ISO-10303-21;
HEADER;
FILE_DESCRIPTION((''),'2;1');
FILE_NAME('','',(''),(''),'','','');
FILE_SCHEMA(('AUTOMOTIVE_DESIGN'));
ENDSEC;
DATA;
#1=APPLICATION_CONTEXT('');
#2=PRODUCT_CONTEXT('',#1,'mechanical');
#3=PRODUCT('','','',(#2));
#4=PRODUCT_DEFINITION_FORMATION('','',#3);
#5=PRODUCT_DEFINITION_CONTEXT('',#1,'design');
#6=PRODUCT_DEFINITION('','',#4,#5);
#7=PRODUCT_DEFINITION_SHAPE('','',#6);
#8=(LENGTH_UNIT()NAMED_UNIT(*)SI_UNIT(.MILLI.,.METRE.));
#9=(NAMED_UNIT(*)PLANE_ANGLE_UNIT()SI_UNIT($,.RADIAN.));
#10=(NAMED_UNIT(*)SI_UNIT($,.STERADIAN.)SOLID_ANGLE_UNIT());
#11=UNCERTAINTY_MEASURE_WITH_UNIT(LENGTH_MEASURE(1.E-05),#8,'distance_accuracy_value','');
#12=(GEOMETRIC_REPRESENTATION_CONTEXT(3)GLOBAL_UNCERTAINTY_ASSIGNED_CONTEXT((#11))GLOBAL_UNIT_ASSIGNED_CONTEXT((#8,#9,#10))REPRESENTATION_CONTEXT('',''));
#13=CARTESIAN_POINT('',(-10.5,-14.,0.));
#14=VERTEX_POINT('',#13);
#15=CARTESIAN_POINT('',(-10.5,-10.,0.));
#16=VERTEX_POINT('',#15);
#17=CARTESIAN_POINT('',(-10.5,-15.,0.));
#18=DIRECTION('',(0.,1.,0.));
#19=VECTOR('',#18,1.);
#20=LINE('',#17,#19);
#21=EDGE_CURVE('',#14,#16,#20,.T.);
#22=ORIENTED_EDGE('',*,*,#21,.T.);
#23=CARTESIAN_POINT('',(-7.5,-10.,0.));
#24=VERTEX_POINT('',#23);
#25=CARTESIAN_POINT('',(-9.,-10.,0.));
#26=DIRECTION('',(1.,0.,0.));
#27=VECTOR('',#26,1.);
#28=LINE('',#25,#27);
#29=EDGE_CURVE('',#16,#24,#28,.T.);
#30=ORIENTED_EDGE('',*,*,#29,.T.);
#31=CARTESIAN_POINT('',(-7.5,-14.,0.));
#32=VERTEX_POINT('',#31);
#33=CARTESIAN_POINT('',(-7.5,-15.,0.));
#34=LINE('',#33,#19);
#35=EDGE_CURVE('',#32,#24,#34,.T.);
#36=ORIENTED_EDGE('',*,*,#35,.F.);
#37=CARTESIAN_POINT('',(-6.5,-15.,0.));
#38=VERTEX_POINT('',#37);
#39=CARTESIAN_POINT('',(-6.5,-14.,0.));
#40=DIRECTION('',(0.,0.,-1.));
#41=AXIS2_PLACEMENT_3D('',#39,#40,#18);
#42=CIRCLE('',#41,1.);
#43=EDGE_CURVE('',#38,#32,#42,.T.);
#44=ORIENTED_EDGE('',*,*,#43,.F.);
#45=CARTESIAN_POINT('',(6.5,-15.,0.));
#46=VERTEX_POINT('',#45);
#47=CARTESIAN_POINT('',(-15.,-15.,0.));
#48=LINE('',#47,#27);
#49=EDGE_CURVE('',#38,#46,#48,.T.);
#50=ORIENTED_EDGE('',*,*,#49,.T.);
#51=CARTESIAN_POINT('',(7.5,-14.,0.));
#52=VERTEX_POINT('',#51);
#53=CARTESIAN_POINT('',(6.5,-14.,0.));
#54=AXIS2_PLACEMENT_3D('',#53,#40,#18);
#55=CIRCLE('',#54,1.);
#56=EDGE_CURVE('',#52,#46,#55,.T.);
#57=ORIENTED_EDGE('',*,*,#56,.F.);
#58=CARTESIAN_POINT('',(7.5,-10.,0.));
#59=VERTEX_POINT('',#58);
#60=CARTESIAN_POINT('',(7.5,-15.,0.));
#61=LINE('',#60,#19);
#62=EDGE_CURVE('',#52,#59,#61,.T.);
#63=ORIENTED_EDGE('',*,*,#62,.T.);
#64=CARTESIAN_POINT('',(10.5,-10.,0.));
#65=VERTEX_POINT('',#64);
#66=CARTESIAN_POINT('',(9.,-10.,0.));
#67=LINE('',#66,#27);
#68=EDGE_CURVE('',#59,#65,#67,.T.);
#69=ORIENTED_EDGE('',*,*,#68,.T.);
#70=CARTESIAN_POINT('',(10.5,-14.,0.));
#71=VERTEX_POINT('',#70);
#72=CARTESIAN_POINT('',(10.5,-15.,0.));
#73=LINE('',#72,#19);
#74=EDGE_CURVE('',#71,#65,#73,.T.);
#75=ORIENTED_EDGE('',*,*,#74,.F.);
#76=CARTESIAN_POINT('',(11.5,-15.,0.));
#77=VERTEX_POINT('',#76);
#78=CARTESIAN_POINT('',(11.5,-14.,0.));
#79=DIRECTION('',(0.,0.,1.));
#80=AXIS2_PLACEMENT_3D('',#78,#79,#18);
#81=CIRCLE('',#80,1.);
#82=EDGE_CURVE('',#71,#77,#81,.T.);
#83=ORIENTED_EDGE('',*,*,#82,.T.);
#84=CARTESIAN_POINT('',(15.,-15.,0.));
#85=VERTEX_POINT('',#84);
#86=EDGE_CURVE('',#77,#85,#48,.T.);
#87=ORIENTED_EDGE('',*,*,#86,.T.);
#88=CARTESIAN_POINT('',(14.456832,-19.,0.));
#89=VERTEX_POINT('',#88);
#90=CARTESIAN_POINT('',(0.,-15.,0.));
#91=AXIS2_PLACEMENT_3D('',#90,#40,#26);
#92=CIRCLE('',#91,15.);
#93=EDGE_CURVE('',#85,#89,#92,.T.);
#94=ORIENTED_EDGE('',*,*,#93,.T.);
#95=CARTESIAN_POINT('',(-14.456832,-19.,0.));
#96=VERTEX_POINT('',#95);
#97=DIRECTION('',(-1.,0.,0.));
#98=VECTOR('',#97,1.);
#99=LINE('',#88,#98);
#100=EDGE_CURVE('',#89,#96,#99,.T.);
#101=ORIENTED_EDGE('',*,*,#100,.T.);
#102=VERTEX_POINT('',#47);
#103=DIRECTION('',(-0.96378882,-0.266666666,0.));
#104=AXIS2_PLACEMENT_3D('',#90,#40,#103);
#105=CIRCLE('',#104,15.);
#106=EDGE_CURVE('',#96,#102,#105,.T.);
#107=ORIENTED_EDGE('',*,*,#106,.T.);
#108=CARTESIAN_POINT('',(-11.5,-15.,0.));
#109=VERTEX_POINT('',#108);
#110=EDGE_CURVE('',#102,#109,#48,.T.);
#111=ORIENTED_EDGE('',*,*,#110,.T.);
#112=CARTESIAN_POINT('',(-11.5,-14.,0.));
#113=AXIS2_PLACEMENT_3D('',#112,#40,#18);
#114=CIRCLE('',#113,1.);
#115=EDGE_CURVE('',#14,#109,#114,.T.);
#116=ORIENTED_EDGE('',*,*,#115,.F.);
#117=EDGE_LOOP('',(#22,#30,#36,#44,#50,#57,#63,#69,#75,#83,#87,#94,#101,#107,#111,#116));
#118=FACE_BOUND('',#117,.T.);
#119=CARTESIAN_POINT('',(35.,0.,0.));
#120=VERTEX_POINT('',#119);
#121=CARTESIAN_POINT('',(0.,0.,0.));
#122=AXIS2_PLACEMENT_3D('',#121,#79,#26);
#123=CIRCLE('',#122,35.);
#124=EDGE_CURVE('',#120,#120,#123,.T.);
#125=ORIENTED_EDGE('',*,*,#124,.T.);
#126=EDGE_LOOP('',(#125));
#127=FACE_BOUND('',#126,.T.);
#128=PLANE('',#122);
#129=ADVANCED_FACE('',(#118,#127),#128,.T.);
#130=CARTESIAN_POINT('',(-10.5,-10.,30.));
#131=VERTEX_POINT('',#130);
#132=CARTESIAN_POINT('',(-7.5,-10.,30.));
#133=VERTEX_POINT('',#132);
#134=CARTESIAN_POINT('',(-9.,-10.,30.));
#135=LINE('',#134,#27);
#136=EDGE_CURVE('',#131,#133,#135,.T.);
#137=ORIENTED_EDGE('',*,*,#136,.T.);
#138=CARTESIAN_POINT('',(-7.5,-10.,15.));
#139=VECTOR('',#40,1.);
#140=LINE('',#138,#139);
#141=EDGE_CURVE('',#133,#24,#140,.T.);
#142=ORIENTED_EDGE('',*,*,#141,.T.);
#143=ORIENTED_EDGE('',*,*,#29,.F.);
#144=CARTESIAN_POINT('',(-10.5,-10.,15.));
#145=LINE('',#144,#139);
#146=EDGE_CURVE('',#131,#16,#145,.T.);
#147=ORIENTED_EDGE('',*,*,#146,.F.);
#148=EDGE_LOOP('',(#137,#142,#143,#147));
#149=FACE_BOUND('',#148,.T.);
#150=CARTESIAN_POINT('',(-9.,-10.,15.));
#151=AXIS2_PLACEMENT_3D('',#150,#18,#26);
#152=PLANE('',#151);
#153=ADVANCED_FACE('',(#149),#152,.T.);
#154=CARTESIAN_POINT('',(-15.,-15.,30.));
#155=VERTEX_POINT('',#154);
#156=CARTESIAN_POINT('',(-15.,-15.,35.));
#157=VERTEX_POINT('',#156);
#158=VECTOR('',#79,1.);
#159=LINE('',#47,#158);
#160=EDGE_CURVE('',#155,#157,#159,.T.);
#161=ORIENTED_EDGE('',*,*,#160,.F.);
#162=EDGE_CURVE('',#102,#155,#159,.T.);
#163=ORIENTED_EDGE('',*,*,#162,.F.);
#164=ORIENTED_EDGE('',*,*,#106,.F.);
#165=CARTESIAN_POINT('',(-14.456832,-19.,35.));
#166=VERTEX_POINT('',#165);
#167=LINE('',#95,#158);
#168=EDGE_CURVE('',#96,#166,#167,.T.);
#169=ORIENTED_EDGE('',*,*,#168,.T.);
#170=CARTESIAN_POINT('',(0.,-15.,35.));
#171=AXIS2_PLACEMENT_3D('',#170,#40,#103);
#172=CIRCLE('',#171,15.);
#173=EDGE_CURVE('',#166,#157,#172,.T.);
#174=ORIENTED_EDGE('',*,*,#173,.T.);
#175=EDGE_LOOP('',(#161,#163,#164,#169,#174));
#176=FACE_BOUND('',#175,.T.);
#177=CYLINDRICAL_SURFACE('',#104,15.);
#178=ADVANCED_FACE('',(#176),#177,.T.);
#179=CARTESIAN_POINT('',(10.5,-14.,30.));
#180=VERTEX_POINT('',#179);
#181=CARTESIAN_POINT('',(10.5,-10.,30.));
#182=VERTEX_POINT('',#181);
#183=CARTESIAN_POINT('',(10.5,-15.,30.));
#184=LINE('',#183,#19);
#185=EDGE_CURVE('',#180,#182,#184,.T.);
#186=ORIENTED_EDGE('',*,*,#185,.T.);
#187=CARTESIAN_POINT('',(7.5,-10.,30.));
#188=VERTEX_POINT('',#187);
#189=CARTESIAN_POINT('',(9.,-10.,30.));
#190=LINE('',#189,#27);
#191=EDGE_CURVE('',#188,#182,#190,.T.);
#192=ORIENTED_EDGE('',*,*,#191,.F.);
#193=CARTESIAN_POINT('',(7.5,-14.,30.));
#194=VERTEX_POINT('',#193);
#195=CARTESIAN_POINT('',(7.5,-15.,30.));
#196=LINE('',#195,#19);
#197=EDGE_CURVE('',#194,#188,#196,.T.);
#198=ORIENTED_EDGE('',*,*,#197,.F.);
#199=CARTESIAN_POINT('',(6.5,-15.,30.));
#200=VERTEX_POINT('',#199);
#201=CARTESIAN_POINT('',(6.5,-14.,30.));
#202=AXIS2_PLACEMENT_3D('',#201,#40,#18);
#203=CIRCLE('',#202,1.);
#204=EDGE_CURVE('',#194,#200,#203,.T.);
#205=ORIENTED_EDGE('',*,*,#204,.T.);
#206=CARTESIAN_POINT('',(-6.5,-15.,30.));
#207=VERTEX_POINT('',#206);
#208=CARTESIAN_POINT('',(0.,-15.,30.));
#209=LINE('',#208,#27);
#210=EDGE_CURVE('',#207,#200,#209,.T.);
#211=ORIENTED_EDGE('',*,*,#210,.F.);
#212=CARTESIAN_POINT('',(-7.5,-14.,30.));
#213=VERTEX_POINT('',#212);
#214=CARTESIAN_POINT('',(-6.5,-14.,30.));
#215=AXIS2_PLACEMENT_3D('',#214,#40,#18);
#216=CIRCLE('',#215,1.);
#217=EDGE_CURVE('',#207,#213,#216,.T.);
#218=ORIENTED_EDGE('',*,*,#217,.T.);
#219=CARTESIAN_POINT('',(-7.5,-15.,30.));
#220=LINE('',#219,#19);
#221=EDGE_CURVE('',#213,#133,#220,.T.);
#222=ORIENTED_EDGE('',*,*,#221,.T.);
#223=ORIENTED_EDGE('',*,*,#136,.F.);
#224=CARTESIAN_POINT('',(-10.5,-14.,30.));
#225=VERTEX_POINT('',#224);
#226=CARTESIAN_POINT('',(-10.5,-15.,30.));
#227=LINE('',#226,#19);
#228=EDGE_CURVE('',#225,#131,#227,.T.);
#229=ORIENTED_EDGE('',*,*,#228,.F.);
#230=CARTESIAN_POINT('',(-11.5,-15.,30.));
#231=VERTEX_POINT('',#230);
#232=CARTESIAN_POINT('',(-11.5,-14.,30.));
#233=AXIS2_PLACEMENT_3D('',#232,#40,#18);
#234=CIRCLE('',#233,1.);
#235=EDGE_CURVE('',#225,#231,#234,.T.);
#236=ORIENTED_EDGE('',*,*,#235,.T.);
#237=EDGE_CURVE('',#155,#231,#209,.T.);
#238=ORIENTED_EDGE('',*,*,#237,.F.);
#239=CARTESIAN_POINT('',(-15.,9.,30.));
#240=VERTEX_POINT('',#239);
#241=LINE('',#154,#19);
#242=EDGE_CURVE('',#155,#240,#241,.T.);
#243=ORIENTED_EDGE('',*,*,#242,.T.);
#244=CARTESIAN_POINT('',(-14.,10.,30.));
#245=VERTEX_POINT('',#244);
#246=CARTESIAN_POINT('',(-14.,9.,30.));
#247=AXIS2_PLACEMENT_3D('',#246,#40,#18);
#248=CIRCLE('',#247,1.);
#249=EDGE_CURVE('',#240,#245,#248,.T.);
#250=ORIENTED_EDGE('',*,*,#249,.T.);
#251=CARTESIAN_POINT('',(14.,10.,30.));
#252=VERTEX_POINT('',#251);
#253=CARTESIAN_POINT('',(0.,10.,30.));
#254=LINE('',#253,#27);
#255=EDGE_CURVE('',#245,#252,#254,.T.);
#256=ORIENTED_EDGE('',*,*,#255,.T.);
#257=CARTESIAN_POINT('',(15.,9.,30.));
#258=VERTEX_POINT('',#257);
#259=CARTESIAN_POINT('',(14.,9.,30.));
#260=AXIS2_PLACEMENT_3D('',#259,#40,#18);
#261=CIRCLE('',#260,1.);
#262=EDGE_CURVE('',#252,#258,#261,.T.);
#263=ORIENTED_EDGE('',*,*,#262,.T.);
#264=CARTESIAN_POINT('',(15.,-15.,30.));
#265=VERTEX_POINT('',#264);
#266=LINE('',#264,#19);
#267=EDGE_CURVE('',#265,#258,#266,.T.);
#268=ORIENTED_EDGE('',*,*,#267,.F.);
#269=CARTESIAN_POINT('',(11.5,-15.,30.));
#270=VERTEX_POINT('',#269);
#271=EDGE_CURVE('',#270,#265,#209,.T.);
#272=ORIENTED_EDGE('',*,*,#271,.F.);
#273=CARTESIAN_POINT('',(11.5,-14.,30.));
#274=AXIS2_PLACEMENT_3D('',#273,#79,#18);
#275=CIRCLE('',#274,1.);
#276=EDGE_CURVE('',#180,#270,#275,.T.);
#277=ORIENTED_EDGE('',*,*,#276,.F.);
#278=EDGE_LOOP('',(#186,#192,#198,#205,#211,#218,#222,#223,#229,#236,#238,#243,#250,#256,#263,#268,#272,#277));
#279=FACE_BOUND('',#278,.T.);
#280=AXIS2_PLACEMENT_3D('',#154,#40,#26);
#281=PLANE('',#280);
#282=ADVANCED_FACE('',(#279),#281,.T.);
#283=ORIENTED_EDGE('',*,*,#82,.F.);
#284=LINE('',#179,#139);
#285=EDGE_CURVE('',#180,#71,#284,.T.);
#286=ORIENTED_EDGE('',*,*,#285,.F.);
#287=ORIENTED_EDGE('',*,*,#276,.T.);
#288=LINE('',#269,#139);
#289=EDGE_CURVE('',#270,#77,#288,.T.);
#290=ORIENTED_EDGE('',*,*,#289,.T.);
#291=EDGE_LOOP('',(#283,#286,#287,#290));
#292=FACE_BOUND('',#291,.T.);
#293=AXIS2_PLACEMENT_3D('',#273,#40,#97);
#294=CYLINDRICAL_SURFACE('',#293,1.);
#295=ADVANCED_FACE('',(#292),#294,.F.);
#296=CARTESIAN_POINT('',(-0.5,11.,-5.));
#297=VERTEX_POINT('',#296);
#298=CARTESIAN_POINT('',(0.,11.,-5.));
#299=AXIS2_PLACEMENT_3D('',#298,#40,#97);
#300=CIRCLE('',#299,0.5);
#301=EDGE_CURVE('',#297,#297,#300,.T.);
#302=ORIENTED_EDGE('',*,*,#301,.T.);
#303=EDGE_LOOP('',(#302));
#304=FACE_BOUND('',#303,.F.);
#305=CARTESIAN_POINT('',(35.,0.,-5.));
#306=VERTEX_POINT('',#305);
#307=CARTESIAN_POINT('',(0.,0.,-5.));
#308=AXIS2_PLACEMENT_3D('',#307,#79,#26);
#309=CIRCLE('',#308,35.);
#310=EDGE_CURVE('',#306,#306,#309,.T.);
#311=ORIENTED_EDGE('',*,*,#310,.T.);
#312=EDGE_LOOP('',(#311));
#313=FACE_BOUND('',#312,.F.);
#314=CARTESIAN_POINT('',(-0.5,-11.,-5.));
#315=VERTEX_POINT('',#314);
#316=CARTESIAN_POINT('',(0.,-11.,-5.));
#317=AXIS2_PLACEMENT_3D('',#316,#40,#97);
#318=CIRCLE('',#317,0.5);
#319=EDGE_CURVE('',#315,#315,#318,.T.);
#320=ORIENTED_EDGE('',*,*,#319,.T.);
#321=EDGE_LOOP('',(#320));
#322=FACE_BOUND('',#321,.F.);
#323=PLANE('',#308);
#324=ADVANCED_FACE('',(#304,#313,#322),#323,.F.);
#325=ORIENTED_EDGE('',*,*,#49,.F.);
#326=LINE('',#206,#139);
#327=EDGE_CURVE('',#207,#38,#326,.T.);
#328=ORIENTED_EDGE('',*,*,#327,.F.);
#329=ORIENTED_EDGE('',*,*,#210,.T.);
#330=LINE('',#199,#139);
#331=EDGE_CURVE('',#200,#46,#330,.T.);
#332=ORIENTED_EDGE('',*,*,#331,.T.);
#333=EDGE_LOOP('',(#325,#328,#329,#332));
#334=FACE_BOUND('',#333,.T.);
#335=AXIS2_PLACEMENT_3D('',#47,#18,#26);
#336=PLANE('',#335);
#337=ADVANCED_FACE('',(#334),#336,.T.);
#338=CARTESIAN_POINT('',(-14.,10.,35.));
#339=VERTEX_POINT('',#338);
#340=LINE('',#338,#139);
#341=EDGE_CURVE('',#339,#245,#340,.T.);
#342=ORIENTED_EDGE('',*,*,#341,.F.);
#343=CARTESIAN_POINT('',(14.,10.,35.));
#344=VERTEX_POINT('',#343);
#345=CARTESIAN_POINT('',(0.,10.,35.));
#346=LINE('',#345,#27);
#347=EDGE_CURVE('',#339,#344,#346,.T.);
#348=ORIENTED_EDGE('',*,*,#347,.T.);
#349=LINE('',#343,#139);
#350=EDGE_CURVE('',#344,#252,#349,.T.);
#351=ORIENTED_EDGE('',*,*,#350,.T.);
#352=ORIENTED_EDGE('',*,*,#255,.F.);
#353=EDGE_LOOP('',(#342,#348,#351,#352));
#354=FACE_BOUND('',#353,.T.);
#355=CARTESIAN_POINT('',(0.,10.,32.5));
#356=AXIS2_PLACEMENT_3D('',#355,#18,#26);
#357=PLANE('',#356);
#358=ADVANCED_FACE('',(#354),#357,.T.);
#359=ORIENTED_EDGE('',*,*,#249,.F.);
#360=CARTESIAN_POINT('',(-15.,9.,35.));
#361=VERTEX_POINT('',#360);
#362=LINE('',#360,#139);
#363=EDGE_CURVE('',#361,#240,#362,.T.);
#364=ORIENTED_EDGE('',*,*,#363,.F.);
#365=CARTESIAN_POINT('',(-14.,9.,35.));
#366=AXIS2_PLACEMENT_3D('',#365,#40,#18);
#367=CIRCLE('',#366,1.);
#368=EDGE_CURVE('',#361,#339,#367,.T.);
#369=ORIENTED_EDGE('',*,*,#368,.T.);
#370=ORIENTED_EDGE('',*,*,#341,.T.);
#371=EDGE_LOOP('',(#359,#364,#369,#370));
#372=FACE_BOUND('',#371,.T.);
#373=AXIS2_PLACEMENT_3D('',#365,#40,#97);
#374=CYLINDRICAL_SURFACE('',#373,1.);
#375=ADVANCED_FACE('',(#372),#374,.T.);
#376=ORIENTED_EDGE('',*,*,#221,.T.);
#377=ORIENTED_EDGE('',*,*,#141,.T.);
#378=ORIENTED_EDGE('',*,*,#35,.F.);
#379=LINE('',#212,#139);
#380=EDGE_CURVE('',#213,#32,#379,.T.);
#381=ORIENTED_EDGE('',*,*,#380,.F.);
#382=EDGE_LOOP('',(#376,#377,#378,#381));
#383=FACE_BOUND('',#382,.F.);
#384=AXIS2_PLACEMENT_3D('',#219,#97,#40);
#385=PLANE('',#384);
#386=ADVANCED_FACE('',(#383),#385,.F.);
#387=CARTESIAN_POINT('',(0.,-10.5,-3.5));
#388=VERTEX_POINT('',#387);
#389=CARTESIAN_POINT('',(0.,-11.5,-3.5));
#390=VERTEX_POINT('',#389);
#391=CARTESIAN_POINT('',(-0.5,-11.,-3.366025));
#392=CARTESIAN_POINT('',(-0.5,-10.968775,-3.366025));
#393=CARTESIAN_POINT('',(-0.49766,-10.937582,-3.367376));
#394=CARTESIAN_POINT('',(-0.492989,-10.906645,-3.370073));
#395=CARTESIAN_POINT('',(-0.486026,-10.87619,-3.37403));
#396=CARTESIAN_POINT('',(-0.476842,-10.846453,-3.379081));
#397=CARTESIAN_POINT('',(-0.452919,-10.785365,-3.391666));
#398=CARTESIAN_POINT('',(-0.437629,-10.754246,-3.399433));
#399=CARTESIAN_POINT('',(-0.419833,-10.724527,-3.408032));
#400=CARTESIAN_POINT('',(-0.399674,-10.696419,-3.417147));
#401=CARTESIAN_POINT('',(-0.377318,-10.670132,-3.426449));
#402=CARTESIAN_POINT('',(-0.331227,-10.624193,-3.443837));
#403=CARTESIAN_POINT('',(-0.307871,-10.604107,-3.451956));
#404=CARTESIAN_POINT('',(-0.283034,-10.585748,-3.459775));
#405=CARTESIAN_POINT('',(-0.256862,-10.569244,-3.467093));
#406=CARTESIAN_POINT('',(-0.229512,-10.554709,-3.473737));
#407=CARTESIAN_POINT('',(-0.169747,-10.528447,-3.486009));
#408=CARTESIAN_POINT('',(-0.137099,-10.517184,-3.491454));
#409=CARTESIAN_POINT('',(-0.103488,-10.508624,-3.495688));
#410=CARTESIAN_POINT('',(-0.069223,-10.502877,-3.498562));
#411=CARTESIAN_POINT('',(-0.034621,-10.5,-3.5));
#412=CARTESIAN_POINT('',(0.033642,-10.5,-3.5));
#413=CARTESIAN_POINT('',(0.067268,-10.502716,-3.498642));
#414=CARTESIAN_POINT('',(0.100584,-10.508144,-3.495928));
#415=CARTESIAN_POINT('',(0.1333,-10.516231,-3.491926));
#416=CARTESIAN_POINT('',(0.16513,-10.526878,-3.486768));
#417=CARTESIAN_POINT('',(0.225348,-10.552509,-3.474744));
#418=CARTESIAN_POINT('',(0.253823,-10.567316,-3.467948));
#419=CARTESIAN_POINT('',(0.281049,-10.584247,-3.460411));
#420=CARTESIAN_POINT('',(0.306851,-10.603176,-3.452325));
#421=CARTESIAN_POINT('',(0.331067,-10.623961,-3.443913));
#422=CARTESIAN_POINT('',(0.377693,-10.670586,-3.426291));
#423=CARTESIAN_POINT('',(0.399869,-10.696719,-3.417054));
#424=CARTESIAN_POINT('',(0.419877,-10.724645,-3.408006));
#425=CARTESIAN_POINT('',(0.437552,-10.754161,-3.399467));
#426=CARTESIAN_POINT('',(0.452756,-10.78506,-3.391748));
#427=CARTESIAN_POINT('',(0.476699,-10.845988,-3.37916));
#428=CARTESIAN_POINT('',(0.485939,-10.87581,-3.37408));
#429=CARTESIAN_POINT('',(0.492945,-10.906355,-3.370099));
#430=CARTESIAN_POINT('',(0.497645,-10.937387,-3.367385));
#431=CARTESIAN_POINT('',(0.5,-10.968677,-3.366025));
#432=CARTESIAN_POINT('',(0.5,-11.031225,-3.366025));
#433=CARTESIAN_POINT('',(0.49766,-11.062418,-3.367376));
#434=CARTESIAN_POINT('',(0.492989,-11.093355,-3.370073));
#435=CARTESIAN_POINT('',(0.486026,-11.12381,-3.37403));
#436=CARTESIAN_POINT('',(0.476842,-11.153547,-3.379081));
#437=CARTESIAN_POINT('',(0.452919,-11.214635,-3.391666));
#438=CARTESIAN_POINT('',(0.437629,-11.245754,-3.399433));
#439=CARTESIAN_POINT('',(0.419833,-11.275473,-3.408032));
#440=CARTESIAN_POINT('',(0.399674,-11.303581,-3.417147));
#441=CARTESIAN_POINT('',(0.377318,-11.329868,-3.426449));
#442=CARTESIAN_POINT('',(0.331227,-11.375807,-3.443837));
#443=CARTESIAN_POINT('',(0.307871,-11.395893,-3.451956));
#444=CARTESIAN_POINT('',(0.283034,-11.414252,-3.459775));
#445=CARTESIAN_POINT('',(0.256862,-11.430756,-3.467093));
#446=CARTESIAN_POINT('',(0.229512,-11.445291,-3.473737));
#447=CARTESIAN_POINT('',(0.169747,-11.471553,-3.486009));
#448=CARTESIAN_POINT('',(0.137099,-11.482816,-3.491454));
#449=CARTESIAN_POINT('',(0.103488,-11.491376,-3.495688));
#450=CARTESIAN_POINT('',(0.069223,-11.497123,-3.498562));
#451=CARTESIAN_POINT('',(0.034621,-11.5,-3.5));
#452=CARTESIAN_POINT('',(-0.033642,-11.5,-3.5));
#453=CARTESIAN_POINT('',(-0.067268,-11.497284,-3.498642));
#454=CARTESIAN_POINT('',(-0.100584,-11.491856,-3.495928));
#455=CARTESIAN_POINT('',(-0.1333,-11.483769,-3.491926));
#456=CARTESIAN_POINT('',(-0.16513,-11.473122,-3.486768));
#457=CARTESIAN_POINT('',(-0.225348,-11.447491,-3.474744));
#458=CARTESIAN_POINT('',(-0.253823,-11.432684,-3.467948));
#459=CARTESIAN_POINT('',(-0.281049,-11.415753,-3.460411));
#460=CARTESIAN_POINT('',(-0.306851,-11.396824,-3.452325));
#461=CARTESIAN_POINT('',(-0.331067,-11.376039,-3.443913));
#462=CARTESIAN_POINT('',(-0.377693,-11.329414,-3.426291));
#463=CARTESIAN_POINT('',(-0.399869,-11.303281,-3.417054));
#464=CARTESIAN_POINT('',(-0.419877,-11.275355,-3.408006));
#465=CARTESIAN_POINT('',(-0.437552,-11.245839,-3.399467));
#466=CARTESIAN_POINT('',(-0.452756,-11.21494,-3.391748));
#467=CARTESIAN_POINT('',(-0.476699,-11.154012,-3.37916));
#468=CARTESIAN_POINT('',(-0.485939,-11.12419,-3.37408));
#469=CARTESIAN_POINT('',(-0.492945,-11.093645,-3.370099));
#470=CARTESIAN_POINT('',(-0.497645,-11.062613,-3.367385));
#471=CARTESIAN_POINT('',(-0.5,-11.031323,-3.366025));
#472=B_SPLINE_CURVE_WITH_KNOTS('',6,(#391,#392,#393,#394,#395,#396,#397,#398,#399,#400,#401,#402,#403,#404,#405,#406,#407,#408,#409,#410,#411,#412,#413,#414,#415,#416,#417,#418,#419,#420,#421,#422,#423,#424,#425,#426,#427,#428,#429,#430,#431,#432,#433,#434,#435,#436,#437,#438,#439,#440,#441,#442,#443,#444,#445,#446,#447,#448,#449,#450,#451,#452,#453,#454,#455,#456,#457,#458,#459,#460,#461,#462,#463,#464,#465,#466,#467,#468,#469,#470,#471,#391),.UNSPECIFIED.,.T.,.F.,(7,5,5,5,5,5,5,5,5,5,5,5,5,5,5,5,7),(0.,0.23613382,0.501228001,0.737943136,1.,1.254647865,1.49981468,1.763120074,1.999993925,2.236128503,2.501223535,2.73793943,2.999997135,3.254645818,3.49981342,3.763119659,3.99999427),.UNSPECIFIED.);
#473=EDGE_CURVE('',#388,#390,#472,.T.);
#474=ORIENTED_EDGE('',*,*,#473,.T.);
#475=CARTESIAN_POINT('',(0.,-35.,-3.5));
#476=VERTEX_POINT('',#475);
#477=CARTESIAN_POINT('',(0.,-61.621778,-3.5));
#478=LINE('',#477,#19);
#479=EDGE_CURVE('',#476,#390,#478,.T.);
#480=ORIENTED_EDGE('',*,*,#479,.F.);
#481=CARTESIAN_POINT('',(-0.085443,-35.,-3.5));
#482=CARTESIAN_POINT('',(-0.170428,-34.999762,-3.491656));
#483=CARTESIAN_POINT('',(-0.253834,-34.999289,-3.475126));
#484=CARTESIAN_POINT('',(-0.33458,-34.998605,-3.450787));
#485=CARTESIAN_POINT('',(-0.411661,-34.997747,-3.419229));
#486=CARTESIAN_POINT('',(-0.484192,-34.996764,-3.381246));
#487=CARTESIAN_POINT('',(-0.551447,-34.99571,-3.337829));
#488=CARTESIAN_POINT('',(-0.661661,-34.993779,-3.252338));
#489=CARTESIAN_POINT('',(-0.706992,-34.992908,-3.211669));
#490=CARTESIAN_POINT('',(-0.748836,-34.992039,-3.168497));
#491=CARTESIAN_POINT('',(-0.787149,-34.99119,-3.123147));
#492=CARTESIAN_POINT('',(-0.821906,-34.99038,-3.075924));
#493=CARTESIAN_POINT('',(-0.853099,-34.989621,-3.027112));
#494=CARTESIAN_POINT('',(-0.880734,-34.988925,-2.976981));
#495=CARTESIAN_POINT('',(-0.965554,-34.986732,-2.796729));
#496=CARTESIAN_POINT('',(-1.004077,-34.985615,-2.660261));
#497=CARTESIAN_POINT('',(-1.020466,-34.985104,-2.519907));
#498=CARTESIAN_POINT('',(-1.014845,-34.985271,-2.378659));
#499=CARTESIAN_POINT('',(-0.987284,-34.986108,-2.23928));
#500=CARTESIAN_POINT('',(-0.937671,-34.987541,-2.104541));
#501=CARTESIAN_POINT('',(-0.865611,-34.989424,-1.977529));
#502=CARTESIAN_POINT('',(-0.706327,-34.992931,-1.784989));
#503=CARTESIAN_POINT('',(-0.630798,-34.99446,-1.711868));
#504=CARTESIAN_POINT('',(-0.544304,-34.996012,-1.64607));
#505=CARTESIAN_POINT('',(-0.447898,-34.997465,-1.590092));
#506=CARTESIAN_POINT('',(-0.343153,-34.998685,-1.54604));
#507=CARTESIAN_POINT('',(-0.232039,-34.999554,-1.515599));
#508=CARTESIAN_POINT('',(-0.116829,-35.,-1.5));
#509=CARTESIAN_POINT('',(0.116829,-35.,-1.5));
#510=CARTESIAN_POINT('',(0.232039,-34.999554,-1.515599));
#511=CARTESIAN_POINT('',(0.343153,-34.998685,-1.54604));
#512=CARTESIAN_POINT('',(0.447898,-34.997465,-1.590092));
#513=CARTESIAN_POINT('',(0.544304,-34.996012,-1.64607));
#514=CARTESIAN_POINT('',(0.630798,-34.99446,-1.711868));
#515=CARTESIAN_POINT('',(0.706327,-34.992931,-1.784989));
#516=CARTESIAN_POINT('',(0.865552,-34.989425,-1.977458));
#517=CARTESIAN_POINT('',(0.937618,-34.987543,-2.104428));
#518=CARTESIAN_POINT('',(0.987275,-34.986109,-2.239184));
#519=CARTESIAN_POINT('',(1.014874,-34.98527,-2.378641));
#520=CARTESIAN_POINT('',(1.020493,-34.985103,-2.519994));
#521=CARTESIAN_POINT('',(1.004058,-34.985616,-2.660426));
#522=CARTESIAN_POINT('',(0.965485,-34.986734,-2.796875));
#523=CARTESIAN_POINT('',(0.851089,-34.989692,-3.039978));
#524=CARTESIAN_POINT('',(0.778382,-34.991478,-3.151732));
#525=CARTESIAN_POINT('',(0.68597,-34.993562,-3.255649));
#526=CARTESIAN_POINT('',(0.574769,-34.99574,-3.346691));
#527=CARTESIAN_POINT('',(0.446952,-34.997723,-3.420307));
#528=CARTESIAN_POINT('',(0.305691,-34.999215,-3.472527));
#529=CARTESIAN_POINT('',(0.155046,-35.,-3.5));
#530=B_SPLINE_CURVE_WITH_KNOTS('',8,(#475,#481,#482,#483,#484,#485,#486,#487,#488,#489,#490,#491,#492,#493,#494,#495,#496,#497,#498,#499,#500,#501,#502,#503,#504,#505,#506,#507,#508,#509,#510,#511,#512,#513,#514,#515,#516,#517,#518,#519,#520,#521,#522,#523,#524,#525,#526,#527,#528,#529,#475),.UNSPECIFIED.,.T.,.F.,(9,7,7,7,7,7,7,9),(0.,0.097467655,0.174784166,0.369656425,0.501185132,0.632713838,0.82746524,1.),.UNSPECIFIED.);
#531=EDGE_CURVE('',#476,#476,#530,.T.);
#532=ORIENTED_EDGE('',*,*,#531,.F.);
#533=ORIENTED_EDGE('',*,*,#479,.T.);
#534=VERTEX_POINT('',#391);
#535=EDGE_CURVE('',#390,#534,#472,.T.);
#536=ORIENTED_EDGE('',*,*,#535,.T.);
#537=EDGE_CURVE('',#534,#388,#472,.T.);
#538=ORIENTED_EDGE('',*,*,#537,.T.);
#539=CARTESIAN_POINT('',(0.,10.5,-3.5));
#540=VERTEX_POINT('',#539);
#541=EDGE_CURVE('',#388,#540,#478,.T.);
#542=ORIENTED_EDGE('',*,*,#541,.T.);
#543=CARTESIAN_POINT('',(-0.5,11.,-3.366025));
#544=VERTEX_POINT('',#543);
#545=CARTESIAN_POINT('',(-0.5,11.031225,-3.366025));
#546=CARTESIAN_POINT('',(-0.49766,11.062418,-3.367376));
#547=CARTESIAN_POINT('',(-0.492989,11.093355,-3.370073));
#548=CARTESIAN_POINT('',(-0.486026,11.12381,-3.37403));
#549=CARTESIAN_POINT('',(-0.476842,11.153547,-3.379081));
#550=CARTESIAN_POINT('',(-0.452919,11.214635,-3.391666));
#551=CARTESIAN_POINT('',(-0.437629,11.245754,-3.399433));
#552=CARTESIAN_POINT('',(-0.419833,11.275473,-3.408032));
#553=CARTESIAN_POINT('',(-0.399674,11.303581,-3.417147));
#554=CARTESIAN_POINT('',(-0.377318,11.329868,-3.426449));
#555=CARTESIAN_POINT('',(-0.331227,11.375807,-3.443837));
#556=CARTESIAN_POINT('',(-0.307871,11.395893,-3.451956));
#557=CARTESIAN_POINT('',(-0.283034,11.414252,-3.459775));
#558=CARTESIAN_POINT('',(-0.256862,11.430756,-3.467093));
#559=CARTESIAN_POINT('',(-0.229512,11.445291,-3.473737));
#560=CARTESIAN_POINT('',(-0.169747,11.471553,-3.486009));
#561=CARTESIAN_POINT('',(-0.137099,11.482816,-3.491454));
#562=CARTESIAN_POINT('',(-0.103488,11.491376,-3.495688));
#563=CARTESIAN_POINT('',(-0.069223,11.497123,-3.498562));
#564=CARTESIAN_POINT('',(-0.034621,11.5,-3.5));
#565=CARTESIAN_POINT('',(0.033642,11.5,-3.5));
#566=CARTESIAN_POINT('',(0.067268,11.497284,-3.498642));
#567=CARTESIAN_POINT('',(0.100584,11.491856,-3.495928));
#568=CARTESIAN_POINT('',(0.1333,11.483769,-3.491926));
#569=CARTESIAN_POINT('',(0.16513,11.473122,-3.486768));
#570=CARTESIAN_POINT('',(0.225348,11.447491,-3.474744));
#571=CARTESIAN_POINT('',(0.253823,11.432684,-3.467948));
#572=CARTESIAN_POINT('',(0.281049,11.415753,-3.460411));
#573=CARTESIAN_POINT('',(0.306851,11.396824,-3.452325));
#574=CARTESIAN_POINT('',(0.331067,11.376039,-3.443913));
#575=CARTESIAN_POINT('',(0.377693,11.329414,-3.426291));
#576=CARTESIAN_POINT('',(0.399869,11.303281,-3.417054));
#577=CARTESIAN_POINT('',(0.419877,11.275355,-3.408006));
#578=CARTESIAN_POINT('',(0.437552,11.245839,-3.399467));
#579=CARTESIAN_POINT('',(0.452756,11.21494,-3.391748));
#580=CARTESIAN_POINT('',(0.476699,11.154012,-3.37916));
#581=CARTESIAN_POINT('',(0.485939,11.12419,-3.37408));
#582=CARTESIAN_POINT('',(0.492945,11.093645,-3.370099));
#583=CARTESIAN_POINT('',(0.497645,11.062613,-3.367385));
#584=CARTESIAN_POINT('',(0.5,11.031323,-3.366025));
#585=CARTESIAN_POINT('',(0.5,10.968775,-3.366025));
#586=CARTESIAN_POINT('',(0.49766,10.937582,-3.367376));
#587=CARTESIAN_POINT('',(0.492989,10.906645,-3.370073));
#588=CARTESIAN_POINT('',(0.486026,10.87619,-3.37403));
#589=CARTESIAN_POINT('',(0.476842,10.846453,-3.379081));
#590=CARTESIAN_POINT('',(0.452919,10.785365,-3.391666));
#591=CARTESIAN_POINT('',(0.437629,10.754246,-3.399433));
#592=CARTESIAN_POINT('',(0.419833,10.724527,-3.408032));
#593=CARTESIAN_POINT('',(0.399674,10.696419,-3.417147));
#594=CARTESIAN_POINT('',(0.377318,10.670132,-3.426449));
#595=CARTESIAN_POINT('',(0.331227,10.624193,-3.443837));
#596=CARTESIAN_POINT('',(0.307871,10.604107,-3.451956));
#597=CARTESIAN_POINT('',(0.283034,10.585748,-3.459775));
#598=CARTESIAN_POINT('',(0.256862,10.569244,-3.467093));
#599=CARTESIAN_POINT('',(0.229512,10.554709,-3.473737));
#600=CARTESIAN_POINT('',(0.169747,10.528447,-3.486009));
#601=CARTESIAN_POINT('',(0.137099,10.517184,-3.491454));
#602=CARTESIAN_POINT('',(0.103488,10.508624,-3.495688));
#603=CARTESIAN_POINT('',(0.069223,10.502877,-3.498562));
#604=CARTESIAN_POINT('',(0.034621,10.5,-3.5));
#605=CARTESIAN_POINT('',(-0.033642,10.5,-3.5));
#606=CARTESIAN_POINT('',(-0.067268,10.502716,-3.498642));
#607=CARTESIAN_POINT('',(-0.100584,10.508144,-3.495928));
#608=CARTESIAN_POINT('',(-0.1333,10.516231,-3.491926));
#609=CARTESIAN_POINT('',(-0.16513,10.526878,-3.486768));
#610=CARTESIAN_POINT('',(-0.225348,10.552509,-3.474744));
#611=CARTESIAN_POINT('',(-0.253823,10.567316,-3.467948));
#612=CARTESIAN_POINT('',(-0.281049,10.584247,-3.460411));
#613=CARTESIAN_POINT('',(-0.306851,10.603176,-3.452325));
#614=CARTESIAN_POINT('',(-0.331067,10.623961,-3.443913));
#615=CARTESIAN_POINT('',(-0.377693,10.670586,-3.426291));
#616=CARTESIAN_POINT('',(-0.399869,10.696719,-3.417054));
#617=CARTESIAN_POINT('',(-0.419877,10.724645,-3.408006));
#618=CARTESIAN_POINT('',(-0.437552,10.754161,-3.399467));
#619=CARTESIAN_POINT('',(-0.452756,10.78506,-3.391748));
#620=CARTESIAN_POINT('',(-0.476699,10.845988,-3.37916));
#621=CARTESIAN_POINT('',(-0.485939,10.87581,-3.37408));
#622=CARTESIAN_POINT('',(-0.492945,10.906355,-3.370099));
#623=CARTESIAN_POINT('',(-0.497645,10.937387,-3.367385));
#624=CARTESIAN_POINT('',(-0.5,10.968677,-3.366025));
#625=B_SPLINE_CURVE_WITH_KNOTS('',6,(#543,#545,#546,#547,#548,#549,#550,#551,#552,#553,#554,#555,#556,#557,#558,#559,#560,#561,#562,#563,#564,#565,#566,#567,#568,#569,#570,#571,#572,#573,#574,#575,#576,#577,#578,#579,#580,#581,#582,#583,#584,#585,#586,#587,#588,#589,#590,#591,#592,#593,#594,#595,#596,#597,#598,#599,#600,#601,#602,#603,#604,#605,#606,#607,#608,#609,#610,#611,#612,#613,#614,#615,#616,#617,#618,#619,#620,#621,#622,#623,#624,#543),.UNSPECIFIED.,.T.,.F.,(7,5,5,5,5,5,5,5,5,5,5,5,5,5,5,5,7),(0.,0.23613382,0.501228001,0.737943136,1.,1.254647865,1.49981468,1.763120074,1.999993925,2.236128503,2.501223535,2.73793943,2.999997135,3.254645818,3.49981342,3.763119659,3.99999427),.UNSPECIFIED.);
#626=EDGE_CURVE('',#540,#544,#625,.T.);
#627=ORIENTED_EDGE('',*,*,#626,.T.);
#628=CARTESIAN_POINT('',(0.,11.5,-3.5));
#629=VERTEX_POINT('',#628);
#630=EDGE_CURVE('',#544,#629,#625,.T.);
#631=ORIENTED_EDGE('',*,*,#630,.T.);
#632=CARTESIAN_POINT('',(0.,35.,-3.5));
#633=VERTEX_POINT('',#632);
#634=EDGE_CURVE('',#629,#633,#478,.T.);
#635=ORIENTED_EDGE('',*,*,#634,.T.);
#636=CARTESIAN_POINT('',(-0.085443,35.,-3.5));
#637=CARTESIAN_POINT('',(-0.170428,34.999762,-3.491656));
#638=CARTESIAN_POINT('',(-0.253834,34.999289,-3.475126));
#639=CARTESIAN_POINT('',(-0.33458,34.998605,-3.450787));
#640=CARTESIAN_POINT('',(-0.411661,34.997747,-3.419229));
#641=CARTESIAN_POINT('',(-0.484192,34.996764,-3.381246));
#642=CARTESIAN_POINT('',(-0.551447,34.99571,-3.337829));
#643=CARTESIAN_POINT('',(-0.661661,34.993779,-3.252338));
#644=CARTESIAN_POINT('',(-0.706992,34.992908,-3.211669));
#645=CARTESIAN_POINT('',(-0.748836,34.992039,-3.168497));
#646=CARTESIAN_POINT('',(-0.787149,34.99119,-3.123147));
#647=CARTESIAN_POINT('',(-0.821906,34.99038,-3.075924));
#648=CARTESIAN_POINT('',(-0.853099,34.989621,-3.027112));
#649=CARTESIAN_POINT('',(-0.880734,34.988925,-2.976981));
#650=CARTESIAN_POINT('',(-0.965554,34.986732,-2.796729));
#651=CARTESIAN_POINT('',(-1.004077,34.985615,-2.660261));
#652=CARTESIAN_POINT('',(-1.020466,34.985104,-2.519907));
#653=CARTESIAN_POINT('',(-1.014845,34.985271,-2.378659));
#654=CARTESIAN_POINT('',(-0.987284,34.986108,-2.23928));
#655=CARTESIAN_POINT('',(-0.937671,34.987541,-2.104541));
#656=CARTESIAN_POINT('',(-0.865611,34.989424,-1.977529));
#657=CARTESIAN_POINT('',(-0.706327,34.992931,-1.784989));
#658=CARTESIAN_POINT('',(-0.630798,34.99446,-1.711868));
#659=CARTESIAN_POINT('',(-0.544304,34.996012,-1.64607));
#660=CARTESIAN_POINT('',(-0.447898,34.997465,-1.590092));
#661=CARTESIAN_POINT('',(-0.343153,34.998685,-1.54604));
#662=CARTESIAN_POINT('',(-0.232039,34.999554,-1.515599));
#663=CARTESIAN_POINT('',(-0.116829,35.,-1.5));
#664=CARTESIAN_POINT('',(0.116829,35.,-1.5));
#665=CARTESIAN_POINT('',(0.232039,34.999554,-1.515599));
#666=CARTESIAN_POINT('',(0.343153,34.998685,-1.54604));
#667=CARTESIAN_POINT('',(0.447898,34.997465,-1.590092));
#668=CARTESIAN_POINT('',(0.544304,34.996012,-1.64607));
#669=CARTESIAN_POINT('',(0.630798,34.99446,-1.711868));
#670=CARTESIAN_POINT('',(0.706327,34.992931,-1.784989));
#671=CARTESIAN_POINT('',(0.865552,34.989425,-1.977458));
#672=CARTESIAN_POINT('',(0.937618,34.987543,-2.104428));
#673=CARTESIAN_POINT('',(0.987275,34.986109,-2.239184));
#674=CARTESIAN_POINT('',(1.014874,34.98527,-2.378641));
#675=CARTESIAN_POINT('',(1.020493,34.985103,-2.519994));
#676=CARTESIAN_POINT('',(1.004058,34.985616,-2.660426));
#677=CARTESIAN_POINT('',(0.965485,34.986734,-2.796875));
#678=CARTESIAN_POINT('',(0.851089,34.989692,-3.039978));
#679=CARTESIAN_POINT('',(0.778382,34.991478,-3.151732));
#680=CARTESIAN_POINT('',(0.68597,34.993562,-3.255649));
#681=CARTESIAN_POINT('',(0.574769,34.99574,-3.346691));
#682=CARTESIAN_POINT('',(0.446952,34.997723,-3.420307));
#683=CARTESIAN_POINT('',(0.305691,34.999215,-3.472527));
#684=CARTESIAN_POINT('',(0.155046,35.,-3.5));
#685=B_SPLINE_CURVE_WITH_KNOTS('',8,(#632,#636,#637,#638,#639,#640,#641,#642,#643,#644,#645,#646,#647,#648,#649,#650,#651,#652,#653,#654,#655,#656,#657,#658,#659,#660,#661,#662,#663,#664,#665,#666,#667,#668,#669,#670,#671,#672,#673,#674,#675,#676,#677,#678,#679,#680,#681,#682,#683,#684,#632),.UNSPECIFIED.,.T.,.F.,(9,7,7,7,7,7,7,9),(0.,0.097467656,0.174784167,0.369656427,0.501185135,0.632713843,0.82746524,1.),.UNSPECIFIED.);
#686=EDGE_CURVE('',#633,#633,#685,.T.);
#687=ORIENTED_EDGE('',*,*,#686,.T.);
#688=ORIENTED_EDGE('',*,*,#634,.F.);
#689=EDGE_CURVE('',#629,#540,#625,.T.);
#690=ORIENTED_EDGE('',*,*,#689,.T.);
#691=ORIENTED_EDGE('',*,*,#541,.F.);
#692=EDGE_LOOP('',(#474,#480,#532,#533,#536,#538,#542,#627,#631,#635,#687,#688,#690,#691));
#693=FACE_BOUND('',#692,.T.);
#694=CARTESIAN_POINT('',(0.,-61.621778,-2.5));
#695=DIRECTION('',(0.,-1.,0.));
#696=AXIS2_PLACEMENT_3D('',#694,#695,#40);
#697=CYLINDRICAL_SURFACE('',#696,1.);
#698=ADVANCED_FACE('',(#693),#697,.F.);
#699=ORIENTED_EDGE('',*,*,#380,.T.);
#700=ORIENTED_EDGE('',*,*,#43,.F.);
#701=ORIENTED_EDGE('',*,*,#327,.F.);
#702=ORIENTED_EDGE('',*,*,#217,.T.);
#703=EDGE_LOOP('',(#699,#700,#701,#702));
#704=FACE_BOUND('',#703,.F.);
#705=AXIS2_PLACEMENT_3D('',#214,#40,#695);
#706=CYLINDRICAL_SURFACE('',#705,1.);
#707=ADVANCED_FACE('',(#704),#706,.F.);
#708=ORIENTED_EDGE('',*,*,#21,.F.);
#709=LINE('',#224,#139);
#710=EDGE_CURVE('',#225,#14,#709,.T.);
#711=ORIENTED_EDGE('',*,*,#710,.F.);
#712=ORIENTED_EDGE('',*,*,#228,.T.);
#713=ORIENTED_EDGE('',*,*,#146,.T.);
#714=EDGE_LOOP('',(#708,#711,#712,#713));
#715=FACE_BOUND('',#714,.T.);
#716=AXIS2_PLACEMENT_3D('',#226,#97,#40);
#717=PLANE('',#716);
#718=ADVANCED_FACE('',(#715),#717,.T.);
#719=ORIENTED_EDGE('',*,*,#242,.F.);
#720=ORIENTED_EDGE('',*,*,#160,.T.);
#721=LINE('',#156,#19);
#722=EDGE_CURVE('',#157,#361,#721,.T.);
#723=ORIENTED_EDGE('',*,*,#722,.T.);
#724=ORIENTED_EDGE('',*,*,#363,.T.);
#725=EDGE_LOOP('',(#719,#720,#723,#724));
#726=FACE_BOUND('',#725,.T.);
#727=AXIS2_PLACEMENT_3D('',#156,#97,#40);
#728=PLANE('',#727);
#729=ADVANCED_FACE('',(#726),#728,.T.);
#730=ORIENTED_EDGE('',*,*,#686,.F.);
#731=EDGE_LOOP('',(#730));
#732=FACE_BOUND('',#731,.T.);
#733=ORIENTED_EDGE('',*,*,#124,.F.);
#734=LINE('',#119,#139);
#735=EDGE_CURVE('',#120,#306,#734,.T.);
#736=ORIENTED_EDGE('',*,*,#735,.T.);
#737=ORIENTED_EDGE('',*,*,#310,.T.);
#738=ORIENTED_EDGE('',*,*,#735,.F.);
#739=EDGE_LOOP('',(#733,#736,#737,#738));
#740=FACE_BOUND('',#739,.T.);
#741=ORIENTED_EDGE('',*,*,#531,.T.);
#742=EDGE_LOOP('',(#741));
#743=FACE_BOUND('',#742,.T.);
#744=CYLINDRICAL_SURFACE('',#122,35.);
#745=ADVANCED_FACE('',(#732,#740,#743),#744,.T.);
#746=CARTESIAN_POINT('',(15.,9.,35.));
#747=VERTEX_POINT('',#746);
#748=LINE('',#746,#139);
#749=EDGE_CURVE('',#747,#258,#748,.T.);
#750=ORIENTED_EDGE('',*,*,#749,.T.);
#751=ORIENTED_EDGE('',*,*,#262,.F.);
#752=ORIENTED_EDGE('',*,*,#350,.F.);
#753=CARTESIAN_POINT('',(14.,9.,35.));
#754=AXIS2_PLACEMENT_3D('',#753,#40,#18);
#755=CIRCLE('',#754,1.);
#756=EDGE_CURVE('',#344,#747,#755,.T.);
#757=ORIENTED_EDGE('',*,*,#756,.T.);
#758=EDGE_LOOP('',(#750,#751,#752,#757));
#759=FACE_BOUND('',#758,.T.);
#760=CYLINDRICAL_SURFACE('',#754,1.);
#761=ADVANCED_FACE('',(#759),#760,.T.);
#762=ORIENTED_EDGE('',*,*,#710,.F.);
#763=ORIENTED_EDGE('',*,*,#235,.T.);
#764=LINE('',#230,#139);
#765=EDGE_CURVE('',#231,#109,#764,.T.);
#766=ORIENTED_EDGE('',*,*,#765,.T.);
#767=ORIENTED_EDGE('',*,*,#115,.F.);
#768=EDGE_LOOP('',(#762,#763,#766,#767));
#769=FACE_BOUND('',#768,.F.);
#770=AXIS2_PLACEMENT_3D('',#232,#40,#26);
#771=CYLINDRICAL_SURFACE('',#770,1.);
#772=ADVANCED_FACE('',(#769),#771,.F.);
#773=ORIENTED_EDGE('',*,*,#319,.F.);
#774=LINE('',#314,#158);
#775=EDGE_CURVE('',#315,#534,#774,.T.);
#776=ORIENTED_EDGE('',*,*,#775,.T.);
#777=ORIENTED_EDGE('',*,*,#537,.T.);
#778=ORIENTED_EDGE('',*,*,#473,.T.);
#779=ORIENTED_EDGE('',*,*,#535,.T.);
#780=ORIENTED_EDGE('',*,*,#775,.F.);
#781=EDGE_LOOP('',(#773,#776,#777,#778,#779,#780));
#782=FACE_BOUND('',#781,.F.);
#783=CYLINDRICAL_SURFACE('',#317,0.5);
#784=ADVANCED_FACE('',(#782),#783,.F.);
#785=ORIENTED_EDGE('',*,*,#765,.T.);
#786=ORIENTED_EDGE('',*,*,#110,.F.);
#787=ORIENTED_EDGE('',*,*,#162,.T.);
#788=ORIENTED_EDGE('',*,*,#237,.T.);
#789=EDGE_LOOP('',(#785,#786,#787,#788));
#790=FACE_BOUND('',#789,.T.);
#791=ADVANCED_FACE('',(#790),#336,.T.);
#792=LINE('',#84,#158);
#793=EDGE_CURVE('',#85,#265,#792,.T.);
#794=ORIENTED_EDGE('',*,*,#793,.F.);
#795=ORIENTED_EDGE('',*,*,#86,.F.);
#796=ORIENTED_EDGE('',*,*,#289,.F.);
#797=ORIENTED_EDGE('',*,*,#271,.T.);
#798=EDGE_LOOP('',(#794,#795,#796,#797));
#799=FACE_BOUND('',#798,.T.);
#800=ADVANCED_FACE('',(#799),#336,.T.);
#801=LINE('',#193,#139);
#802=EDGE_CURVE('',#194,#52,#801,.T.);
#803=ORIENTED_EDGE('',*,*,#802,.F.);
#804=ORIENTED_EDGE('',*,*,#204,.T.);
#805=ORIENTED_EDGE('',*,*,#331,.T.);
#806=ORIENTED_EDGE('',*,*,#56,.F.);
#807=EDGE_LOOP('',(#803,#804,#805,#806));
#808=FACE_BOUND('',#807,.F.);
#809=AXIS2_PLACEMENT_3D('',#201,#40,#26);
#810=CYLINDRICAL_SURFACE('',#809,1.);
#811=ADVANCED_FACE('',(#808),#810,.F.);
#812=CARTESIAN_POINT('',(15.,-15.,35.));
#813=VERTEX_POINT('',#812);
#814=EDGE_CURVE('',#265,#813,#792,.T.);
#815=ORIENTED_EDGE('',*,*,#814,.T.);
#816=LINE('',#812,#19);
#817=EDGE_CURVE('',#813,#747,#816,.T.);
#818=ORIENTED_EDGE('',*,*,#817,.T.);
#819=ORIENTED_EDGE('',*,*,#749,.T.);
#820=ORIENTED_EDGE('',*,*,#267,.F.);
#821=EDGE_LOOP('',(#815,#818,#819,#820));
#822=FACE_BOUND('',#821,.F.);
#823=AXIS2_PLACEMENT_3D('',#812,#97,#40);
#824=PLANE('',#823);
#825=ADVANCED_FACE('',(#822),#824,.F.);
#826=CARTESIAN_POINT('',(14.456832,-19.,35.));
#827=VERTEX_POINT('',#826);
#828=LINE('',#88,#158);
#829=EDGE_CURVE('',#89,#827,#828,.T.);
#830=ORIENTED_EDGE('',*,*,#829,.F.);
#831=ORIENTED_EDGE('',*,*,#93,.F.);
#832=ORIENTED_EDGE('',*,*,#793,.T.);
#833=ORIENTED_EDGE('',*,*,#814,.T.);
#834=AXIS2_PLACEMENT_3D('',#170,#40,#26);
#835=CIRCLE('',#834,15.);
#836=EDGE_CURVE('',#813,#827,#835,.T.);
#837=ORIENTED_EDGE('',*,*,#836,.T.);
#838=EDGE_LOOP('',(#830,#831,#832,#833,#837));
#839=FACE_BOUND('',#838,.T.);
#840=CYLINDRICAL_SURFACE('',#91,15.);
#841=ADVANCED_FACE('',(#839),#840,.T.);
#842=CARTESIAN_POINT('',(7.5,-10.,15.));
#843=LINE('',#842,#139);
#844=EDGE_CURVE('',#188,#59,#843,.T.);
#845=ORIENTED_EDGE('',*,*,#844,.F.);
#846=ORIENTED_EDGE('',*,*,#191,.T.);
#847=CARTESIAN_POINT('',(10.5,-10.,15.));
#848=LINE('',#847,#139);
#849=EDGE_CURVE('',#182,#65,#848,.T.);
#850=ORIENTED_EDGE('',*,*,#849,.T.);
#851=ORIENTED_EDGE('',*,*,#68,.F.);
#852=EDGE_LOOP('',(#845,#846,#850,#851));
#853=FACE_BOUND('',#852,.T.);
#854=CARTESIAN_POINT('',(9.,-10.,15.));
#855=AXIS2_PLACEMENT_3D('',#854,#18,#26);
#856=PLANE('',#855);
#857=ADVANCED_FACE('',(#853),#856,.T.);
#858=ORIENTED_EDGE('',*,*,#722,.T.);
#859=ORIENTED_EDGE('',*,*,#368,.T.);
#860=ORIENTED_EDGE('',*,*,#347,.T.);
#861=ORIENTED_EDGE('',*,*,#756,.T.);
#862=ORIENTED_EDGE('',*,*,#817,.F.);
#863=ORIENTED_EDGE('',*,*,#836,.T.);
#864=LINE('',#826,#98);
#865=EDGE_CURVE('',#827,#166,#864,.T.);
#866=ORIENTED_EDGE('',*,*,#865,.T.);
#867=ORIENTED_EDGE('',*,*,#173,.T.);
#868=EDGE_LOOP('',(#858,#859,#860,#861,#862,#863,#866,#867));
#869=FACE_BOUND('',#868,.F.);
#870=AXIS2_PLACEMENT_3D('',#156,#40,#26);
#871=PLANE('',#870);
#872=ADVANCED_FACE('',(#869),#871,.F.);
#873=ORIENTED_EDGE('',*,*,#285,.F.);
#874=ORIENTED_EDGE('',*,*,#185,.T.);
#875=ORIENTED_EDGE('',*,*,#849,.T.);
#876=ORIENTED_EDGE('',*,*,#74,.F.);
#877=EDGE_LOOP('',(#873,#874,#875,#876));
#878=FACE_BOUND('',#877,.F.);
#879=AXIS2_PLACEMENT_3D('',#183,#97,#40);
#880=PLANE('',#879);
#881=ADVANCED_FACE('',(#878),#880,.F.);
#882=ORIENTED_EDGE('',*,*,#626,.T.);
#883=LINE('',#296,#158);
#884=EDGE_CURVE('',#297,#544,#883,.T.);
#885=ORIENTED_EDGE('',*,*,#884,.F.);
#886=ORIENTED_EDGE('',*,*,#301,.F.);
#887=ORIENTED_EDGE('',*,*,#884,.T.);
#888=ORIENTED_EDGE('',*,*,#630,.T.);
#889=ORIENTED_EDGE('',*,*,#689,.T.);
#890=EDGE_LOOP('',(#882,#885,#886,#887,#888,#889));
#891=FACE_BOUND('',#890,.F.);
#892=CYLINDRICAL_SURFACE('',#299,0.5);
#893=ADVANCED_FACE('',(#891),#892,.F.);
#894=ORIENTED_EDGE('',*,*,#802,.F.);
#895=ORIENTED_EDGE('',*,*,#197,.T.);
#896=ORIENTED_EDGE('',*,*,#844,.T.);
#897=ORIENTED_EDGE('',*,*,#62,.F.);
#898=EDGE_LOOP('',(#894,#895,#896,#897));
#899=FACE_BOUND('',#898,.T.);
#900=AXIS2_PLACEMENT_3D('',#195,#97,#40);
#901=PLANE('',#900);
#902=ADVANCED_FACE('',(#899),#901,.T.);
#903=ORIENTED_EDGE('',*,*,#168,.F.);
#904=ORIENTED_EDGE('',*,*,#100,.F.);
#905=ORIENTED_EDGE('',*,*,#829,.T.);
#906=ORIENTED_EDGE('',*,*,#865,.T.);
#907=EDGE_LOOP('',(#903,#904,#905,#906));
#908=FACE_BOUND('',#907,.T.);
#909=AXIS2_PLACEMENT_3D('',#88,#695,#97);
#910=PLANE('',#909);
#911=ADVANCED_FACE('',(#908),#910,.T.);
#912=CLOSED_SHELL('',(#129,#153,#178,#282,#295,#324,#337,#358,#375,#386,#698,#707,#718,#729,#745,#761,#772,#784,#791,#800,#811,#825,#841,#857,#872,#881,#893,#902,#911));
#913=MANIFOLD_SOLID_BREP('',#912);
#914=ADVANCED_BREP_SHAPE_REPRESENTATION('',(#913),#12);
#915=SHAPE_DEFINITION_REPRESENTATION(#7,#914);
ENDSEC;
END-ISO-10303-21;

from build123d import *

# Parameters (mm, degrees)
SKETCH1_R               = 35
BOSS_EXTRUDE1_DEPTH     = 5
BOSS_EXTRUDE2_DEPTH     = 35
SKETCH3_W               = 30
SKETCH3_H               = 5
BOSS_EXTRUDE3_DEPTH     = 25
SKETCH4_W               = 3
SKETCH4_H               = 30
BOSS_EXTRUDE5_DEPTH     = 5
CUT_EXTRUDE1_DEPTH      = 38
CUT_EXTRUDE1_DEPTH_BACK = 61.621778265
SKETCH5_R               = 1
FILLET1_R               = 1
FILLET2_R               = 1
FILLET3_R               = 1
CUT_EXTRUDE2_REACH      = 65.64
CUT_EXTRUDE2_END_RADIUS = 1
SKETCH6_R               = 0.5


with BuildPart() as part:
    # Sketch1 → Boss-Extrude1 (new body)
    with BuildSketch(Plane.XY):
        Circle(SKETCH1_R)
    extrude(amount=-BOSS_EXTRUDE1_DEPTH)

    # Sketch2 → Boss-Extrude2 (add)
    with BuildSketch(Plane.XY):
        with BuildLine():
            Line((-15, -15), (15, -15))
            ThreePointArc((15, -15), (14.863587797, -17.018355219), (14.456832295, -19))
            Line((14.456832295, -19), (-14.456832295, -19))
            ThreePointArc((-14.456832295, -19), (-14.863587797, -17.018355219), (-15, -15))
        make_face()
    extrude(amount=BOSS_EXTRUDE2_DEPTH)

    # Sketch3 → Boss-Extrude3 (add)
    with BuildSketch(Plane(origin=(0, -15, 0), x_dir=(1, 0, 0), z_dir=(0, 1, 0))):
        with Locations((0, -32.5)):
            Rectangle(SKETCH3_W, SKETCH3_H)
    extrude(amount=BOSS_EXTRUDE3_DEPTH)

    # Sketch4 → Boss-Extrude5 (add)
    with BuildSketch(Plane(origin=(0, -15, 0), x_dir=(1, 0, 0), z_dir=(0, 1, 0))):
        with Locations((9, -15)):
            Rectangle(SKETCH4_W, SKETCH4_H)
        with Locations((-9, -15)):
            Rectangle(SKETCH4_W, SKETCH4_H)
    extrude(amount=BOSS_EXTRUDE5_DEPTH)

    # Sketch5 → Cut-Extrude1 (cut, two sides: drawn at the far end of the back side and taken through both)
    with BuildSketch(Plane(origin=(0, 0, 0), x_dir=(1, 0, 0), z_dir=(0, 1, 0)).offset(-CUT_EXTRUDE1_DEPTH_BACK)):
        with Locations(Location((0, 2.5, 0), (0, 0, 90))):
            Circle(SKETCH5_R)
    extrude(amount=CUT_EXTRUDE1_DEPTH + CUT_EXTRUDE1_DEPTH_BACK, mode=Mode.SUBTRACT)

    # Fillet1
    fillet1_edges = [part.edges().sort_by_distance(p)[0] for p in [
        (15, 10, 32.5),
        (-15, 10, 32.5),
    ]]
    fillet(fillet1_edges, radius=FILLET1_R)

    # Fillet2
    fillet2_edges = [part.edges().sort_by_distance(p)[0] for p in [
        (7.5, -15, 15),
        (-7.5, -15, 15),
    ]]
    fillet(fillet2_edges, radius=FILLET2_R)

    # Fillet3
    fillet3_edges = [part.edges().sort_by_distance(p)[0] for p in [
        (10.5, -15, 15),
        (-10.5, -15, 15),
    ]]
    fillet(fillet3_edges, radius=FILLET3_R)

    # Cut-Extrude2: up to this cylinder (the profile starts outside it)
    cut_extrude2_end = Plane(origin=(0, 0, -2.5), z_dir=(0, -1, 0)) * Cylinder(CUT_EXTRUDE2_END_RADIUS, 156.28, mode=Mode.PRIVATE)
    # Sketch6 → Cut-Extrude2 (cut, up to the surface)
    with BuildSketch(Plane(origin=(0, 0, -5), x_dir=(-1, 0, 0), z_dir=(0, 0, -1)), mode=Mode.PRIVATE) as cut_extrude2_sk1:
        with Locations((0, 11)):
            Circle(SKETCH6_R)
    cut_extrude2_tool1 = extrude(cut_extrude2_sk1.sketch, amount=-CUT_EXTRUDE2_REACH, mode=Mode.PRIVATE) - cut_extrude2_end
    add(cut_extrude2_tool1.solids().sort_by_distance((0, 11, -5))[0], mode=Mode.SUBTRACT)
    # Sketch6 → Cut-Extrude2 (cut, up to the surface)
    with BuildSketch(Plane(origin=(0, 0, -5), x_dir=(-1, 0, 0), z_dir=(0, 0, -1)), mode=Mode.PRIVATE) as cut_extrude2_sk2:
        with Locations((0, -11)):
            Circle(SKETCH6_R)
    cut_extrude2_tool2 = extrude(cut_extrude2_sk2.sketch, amount=-CUT_EXTRUDE2_REACH, mode=Mode.PRIVATE) - cut_extrude2_end
    add(cut_extrude2_tool2.solids().sort_by_distance((0, -11, -5))[0], mode=Mode.SUBTRACT)


solid = part.part
